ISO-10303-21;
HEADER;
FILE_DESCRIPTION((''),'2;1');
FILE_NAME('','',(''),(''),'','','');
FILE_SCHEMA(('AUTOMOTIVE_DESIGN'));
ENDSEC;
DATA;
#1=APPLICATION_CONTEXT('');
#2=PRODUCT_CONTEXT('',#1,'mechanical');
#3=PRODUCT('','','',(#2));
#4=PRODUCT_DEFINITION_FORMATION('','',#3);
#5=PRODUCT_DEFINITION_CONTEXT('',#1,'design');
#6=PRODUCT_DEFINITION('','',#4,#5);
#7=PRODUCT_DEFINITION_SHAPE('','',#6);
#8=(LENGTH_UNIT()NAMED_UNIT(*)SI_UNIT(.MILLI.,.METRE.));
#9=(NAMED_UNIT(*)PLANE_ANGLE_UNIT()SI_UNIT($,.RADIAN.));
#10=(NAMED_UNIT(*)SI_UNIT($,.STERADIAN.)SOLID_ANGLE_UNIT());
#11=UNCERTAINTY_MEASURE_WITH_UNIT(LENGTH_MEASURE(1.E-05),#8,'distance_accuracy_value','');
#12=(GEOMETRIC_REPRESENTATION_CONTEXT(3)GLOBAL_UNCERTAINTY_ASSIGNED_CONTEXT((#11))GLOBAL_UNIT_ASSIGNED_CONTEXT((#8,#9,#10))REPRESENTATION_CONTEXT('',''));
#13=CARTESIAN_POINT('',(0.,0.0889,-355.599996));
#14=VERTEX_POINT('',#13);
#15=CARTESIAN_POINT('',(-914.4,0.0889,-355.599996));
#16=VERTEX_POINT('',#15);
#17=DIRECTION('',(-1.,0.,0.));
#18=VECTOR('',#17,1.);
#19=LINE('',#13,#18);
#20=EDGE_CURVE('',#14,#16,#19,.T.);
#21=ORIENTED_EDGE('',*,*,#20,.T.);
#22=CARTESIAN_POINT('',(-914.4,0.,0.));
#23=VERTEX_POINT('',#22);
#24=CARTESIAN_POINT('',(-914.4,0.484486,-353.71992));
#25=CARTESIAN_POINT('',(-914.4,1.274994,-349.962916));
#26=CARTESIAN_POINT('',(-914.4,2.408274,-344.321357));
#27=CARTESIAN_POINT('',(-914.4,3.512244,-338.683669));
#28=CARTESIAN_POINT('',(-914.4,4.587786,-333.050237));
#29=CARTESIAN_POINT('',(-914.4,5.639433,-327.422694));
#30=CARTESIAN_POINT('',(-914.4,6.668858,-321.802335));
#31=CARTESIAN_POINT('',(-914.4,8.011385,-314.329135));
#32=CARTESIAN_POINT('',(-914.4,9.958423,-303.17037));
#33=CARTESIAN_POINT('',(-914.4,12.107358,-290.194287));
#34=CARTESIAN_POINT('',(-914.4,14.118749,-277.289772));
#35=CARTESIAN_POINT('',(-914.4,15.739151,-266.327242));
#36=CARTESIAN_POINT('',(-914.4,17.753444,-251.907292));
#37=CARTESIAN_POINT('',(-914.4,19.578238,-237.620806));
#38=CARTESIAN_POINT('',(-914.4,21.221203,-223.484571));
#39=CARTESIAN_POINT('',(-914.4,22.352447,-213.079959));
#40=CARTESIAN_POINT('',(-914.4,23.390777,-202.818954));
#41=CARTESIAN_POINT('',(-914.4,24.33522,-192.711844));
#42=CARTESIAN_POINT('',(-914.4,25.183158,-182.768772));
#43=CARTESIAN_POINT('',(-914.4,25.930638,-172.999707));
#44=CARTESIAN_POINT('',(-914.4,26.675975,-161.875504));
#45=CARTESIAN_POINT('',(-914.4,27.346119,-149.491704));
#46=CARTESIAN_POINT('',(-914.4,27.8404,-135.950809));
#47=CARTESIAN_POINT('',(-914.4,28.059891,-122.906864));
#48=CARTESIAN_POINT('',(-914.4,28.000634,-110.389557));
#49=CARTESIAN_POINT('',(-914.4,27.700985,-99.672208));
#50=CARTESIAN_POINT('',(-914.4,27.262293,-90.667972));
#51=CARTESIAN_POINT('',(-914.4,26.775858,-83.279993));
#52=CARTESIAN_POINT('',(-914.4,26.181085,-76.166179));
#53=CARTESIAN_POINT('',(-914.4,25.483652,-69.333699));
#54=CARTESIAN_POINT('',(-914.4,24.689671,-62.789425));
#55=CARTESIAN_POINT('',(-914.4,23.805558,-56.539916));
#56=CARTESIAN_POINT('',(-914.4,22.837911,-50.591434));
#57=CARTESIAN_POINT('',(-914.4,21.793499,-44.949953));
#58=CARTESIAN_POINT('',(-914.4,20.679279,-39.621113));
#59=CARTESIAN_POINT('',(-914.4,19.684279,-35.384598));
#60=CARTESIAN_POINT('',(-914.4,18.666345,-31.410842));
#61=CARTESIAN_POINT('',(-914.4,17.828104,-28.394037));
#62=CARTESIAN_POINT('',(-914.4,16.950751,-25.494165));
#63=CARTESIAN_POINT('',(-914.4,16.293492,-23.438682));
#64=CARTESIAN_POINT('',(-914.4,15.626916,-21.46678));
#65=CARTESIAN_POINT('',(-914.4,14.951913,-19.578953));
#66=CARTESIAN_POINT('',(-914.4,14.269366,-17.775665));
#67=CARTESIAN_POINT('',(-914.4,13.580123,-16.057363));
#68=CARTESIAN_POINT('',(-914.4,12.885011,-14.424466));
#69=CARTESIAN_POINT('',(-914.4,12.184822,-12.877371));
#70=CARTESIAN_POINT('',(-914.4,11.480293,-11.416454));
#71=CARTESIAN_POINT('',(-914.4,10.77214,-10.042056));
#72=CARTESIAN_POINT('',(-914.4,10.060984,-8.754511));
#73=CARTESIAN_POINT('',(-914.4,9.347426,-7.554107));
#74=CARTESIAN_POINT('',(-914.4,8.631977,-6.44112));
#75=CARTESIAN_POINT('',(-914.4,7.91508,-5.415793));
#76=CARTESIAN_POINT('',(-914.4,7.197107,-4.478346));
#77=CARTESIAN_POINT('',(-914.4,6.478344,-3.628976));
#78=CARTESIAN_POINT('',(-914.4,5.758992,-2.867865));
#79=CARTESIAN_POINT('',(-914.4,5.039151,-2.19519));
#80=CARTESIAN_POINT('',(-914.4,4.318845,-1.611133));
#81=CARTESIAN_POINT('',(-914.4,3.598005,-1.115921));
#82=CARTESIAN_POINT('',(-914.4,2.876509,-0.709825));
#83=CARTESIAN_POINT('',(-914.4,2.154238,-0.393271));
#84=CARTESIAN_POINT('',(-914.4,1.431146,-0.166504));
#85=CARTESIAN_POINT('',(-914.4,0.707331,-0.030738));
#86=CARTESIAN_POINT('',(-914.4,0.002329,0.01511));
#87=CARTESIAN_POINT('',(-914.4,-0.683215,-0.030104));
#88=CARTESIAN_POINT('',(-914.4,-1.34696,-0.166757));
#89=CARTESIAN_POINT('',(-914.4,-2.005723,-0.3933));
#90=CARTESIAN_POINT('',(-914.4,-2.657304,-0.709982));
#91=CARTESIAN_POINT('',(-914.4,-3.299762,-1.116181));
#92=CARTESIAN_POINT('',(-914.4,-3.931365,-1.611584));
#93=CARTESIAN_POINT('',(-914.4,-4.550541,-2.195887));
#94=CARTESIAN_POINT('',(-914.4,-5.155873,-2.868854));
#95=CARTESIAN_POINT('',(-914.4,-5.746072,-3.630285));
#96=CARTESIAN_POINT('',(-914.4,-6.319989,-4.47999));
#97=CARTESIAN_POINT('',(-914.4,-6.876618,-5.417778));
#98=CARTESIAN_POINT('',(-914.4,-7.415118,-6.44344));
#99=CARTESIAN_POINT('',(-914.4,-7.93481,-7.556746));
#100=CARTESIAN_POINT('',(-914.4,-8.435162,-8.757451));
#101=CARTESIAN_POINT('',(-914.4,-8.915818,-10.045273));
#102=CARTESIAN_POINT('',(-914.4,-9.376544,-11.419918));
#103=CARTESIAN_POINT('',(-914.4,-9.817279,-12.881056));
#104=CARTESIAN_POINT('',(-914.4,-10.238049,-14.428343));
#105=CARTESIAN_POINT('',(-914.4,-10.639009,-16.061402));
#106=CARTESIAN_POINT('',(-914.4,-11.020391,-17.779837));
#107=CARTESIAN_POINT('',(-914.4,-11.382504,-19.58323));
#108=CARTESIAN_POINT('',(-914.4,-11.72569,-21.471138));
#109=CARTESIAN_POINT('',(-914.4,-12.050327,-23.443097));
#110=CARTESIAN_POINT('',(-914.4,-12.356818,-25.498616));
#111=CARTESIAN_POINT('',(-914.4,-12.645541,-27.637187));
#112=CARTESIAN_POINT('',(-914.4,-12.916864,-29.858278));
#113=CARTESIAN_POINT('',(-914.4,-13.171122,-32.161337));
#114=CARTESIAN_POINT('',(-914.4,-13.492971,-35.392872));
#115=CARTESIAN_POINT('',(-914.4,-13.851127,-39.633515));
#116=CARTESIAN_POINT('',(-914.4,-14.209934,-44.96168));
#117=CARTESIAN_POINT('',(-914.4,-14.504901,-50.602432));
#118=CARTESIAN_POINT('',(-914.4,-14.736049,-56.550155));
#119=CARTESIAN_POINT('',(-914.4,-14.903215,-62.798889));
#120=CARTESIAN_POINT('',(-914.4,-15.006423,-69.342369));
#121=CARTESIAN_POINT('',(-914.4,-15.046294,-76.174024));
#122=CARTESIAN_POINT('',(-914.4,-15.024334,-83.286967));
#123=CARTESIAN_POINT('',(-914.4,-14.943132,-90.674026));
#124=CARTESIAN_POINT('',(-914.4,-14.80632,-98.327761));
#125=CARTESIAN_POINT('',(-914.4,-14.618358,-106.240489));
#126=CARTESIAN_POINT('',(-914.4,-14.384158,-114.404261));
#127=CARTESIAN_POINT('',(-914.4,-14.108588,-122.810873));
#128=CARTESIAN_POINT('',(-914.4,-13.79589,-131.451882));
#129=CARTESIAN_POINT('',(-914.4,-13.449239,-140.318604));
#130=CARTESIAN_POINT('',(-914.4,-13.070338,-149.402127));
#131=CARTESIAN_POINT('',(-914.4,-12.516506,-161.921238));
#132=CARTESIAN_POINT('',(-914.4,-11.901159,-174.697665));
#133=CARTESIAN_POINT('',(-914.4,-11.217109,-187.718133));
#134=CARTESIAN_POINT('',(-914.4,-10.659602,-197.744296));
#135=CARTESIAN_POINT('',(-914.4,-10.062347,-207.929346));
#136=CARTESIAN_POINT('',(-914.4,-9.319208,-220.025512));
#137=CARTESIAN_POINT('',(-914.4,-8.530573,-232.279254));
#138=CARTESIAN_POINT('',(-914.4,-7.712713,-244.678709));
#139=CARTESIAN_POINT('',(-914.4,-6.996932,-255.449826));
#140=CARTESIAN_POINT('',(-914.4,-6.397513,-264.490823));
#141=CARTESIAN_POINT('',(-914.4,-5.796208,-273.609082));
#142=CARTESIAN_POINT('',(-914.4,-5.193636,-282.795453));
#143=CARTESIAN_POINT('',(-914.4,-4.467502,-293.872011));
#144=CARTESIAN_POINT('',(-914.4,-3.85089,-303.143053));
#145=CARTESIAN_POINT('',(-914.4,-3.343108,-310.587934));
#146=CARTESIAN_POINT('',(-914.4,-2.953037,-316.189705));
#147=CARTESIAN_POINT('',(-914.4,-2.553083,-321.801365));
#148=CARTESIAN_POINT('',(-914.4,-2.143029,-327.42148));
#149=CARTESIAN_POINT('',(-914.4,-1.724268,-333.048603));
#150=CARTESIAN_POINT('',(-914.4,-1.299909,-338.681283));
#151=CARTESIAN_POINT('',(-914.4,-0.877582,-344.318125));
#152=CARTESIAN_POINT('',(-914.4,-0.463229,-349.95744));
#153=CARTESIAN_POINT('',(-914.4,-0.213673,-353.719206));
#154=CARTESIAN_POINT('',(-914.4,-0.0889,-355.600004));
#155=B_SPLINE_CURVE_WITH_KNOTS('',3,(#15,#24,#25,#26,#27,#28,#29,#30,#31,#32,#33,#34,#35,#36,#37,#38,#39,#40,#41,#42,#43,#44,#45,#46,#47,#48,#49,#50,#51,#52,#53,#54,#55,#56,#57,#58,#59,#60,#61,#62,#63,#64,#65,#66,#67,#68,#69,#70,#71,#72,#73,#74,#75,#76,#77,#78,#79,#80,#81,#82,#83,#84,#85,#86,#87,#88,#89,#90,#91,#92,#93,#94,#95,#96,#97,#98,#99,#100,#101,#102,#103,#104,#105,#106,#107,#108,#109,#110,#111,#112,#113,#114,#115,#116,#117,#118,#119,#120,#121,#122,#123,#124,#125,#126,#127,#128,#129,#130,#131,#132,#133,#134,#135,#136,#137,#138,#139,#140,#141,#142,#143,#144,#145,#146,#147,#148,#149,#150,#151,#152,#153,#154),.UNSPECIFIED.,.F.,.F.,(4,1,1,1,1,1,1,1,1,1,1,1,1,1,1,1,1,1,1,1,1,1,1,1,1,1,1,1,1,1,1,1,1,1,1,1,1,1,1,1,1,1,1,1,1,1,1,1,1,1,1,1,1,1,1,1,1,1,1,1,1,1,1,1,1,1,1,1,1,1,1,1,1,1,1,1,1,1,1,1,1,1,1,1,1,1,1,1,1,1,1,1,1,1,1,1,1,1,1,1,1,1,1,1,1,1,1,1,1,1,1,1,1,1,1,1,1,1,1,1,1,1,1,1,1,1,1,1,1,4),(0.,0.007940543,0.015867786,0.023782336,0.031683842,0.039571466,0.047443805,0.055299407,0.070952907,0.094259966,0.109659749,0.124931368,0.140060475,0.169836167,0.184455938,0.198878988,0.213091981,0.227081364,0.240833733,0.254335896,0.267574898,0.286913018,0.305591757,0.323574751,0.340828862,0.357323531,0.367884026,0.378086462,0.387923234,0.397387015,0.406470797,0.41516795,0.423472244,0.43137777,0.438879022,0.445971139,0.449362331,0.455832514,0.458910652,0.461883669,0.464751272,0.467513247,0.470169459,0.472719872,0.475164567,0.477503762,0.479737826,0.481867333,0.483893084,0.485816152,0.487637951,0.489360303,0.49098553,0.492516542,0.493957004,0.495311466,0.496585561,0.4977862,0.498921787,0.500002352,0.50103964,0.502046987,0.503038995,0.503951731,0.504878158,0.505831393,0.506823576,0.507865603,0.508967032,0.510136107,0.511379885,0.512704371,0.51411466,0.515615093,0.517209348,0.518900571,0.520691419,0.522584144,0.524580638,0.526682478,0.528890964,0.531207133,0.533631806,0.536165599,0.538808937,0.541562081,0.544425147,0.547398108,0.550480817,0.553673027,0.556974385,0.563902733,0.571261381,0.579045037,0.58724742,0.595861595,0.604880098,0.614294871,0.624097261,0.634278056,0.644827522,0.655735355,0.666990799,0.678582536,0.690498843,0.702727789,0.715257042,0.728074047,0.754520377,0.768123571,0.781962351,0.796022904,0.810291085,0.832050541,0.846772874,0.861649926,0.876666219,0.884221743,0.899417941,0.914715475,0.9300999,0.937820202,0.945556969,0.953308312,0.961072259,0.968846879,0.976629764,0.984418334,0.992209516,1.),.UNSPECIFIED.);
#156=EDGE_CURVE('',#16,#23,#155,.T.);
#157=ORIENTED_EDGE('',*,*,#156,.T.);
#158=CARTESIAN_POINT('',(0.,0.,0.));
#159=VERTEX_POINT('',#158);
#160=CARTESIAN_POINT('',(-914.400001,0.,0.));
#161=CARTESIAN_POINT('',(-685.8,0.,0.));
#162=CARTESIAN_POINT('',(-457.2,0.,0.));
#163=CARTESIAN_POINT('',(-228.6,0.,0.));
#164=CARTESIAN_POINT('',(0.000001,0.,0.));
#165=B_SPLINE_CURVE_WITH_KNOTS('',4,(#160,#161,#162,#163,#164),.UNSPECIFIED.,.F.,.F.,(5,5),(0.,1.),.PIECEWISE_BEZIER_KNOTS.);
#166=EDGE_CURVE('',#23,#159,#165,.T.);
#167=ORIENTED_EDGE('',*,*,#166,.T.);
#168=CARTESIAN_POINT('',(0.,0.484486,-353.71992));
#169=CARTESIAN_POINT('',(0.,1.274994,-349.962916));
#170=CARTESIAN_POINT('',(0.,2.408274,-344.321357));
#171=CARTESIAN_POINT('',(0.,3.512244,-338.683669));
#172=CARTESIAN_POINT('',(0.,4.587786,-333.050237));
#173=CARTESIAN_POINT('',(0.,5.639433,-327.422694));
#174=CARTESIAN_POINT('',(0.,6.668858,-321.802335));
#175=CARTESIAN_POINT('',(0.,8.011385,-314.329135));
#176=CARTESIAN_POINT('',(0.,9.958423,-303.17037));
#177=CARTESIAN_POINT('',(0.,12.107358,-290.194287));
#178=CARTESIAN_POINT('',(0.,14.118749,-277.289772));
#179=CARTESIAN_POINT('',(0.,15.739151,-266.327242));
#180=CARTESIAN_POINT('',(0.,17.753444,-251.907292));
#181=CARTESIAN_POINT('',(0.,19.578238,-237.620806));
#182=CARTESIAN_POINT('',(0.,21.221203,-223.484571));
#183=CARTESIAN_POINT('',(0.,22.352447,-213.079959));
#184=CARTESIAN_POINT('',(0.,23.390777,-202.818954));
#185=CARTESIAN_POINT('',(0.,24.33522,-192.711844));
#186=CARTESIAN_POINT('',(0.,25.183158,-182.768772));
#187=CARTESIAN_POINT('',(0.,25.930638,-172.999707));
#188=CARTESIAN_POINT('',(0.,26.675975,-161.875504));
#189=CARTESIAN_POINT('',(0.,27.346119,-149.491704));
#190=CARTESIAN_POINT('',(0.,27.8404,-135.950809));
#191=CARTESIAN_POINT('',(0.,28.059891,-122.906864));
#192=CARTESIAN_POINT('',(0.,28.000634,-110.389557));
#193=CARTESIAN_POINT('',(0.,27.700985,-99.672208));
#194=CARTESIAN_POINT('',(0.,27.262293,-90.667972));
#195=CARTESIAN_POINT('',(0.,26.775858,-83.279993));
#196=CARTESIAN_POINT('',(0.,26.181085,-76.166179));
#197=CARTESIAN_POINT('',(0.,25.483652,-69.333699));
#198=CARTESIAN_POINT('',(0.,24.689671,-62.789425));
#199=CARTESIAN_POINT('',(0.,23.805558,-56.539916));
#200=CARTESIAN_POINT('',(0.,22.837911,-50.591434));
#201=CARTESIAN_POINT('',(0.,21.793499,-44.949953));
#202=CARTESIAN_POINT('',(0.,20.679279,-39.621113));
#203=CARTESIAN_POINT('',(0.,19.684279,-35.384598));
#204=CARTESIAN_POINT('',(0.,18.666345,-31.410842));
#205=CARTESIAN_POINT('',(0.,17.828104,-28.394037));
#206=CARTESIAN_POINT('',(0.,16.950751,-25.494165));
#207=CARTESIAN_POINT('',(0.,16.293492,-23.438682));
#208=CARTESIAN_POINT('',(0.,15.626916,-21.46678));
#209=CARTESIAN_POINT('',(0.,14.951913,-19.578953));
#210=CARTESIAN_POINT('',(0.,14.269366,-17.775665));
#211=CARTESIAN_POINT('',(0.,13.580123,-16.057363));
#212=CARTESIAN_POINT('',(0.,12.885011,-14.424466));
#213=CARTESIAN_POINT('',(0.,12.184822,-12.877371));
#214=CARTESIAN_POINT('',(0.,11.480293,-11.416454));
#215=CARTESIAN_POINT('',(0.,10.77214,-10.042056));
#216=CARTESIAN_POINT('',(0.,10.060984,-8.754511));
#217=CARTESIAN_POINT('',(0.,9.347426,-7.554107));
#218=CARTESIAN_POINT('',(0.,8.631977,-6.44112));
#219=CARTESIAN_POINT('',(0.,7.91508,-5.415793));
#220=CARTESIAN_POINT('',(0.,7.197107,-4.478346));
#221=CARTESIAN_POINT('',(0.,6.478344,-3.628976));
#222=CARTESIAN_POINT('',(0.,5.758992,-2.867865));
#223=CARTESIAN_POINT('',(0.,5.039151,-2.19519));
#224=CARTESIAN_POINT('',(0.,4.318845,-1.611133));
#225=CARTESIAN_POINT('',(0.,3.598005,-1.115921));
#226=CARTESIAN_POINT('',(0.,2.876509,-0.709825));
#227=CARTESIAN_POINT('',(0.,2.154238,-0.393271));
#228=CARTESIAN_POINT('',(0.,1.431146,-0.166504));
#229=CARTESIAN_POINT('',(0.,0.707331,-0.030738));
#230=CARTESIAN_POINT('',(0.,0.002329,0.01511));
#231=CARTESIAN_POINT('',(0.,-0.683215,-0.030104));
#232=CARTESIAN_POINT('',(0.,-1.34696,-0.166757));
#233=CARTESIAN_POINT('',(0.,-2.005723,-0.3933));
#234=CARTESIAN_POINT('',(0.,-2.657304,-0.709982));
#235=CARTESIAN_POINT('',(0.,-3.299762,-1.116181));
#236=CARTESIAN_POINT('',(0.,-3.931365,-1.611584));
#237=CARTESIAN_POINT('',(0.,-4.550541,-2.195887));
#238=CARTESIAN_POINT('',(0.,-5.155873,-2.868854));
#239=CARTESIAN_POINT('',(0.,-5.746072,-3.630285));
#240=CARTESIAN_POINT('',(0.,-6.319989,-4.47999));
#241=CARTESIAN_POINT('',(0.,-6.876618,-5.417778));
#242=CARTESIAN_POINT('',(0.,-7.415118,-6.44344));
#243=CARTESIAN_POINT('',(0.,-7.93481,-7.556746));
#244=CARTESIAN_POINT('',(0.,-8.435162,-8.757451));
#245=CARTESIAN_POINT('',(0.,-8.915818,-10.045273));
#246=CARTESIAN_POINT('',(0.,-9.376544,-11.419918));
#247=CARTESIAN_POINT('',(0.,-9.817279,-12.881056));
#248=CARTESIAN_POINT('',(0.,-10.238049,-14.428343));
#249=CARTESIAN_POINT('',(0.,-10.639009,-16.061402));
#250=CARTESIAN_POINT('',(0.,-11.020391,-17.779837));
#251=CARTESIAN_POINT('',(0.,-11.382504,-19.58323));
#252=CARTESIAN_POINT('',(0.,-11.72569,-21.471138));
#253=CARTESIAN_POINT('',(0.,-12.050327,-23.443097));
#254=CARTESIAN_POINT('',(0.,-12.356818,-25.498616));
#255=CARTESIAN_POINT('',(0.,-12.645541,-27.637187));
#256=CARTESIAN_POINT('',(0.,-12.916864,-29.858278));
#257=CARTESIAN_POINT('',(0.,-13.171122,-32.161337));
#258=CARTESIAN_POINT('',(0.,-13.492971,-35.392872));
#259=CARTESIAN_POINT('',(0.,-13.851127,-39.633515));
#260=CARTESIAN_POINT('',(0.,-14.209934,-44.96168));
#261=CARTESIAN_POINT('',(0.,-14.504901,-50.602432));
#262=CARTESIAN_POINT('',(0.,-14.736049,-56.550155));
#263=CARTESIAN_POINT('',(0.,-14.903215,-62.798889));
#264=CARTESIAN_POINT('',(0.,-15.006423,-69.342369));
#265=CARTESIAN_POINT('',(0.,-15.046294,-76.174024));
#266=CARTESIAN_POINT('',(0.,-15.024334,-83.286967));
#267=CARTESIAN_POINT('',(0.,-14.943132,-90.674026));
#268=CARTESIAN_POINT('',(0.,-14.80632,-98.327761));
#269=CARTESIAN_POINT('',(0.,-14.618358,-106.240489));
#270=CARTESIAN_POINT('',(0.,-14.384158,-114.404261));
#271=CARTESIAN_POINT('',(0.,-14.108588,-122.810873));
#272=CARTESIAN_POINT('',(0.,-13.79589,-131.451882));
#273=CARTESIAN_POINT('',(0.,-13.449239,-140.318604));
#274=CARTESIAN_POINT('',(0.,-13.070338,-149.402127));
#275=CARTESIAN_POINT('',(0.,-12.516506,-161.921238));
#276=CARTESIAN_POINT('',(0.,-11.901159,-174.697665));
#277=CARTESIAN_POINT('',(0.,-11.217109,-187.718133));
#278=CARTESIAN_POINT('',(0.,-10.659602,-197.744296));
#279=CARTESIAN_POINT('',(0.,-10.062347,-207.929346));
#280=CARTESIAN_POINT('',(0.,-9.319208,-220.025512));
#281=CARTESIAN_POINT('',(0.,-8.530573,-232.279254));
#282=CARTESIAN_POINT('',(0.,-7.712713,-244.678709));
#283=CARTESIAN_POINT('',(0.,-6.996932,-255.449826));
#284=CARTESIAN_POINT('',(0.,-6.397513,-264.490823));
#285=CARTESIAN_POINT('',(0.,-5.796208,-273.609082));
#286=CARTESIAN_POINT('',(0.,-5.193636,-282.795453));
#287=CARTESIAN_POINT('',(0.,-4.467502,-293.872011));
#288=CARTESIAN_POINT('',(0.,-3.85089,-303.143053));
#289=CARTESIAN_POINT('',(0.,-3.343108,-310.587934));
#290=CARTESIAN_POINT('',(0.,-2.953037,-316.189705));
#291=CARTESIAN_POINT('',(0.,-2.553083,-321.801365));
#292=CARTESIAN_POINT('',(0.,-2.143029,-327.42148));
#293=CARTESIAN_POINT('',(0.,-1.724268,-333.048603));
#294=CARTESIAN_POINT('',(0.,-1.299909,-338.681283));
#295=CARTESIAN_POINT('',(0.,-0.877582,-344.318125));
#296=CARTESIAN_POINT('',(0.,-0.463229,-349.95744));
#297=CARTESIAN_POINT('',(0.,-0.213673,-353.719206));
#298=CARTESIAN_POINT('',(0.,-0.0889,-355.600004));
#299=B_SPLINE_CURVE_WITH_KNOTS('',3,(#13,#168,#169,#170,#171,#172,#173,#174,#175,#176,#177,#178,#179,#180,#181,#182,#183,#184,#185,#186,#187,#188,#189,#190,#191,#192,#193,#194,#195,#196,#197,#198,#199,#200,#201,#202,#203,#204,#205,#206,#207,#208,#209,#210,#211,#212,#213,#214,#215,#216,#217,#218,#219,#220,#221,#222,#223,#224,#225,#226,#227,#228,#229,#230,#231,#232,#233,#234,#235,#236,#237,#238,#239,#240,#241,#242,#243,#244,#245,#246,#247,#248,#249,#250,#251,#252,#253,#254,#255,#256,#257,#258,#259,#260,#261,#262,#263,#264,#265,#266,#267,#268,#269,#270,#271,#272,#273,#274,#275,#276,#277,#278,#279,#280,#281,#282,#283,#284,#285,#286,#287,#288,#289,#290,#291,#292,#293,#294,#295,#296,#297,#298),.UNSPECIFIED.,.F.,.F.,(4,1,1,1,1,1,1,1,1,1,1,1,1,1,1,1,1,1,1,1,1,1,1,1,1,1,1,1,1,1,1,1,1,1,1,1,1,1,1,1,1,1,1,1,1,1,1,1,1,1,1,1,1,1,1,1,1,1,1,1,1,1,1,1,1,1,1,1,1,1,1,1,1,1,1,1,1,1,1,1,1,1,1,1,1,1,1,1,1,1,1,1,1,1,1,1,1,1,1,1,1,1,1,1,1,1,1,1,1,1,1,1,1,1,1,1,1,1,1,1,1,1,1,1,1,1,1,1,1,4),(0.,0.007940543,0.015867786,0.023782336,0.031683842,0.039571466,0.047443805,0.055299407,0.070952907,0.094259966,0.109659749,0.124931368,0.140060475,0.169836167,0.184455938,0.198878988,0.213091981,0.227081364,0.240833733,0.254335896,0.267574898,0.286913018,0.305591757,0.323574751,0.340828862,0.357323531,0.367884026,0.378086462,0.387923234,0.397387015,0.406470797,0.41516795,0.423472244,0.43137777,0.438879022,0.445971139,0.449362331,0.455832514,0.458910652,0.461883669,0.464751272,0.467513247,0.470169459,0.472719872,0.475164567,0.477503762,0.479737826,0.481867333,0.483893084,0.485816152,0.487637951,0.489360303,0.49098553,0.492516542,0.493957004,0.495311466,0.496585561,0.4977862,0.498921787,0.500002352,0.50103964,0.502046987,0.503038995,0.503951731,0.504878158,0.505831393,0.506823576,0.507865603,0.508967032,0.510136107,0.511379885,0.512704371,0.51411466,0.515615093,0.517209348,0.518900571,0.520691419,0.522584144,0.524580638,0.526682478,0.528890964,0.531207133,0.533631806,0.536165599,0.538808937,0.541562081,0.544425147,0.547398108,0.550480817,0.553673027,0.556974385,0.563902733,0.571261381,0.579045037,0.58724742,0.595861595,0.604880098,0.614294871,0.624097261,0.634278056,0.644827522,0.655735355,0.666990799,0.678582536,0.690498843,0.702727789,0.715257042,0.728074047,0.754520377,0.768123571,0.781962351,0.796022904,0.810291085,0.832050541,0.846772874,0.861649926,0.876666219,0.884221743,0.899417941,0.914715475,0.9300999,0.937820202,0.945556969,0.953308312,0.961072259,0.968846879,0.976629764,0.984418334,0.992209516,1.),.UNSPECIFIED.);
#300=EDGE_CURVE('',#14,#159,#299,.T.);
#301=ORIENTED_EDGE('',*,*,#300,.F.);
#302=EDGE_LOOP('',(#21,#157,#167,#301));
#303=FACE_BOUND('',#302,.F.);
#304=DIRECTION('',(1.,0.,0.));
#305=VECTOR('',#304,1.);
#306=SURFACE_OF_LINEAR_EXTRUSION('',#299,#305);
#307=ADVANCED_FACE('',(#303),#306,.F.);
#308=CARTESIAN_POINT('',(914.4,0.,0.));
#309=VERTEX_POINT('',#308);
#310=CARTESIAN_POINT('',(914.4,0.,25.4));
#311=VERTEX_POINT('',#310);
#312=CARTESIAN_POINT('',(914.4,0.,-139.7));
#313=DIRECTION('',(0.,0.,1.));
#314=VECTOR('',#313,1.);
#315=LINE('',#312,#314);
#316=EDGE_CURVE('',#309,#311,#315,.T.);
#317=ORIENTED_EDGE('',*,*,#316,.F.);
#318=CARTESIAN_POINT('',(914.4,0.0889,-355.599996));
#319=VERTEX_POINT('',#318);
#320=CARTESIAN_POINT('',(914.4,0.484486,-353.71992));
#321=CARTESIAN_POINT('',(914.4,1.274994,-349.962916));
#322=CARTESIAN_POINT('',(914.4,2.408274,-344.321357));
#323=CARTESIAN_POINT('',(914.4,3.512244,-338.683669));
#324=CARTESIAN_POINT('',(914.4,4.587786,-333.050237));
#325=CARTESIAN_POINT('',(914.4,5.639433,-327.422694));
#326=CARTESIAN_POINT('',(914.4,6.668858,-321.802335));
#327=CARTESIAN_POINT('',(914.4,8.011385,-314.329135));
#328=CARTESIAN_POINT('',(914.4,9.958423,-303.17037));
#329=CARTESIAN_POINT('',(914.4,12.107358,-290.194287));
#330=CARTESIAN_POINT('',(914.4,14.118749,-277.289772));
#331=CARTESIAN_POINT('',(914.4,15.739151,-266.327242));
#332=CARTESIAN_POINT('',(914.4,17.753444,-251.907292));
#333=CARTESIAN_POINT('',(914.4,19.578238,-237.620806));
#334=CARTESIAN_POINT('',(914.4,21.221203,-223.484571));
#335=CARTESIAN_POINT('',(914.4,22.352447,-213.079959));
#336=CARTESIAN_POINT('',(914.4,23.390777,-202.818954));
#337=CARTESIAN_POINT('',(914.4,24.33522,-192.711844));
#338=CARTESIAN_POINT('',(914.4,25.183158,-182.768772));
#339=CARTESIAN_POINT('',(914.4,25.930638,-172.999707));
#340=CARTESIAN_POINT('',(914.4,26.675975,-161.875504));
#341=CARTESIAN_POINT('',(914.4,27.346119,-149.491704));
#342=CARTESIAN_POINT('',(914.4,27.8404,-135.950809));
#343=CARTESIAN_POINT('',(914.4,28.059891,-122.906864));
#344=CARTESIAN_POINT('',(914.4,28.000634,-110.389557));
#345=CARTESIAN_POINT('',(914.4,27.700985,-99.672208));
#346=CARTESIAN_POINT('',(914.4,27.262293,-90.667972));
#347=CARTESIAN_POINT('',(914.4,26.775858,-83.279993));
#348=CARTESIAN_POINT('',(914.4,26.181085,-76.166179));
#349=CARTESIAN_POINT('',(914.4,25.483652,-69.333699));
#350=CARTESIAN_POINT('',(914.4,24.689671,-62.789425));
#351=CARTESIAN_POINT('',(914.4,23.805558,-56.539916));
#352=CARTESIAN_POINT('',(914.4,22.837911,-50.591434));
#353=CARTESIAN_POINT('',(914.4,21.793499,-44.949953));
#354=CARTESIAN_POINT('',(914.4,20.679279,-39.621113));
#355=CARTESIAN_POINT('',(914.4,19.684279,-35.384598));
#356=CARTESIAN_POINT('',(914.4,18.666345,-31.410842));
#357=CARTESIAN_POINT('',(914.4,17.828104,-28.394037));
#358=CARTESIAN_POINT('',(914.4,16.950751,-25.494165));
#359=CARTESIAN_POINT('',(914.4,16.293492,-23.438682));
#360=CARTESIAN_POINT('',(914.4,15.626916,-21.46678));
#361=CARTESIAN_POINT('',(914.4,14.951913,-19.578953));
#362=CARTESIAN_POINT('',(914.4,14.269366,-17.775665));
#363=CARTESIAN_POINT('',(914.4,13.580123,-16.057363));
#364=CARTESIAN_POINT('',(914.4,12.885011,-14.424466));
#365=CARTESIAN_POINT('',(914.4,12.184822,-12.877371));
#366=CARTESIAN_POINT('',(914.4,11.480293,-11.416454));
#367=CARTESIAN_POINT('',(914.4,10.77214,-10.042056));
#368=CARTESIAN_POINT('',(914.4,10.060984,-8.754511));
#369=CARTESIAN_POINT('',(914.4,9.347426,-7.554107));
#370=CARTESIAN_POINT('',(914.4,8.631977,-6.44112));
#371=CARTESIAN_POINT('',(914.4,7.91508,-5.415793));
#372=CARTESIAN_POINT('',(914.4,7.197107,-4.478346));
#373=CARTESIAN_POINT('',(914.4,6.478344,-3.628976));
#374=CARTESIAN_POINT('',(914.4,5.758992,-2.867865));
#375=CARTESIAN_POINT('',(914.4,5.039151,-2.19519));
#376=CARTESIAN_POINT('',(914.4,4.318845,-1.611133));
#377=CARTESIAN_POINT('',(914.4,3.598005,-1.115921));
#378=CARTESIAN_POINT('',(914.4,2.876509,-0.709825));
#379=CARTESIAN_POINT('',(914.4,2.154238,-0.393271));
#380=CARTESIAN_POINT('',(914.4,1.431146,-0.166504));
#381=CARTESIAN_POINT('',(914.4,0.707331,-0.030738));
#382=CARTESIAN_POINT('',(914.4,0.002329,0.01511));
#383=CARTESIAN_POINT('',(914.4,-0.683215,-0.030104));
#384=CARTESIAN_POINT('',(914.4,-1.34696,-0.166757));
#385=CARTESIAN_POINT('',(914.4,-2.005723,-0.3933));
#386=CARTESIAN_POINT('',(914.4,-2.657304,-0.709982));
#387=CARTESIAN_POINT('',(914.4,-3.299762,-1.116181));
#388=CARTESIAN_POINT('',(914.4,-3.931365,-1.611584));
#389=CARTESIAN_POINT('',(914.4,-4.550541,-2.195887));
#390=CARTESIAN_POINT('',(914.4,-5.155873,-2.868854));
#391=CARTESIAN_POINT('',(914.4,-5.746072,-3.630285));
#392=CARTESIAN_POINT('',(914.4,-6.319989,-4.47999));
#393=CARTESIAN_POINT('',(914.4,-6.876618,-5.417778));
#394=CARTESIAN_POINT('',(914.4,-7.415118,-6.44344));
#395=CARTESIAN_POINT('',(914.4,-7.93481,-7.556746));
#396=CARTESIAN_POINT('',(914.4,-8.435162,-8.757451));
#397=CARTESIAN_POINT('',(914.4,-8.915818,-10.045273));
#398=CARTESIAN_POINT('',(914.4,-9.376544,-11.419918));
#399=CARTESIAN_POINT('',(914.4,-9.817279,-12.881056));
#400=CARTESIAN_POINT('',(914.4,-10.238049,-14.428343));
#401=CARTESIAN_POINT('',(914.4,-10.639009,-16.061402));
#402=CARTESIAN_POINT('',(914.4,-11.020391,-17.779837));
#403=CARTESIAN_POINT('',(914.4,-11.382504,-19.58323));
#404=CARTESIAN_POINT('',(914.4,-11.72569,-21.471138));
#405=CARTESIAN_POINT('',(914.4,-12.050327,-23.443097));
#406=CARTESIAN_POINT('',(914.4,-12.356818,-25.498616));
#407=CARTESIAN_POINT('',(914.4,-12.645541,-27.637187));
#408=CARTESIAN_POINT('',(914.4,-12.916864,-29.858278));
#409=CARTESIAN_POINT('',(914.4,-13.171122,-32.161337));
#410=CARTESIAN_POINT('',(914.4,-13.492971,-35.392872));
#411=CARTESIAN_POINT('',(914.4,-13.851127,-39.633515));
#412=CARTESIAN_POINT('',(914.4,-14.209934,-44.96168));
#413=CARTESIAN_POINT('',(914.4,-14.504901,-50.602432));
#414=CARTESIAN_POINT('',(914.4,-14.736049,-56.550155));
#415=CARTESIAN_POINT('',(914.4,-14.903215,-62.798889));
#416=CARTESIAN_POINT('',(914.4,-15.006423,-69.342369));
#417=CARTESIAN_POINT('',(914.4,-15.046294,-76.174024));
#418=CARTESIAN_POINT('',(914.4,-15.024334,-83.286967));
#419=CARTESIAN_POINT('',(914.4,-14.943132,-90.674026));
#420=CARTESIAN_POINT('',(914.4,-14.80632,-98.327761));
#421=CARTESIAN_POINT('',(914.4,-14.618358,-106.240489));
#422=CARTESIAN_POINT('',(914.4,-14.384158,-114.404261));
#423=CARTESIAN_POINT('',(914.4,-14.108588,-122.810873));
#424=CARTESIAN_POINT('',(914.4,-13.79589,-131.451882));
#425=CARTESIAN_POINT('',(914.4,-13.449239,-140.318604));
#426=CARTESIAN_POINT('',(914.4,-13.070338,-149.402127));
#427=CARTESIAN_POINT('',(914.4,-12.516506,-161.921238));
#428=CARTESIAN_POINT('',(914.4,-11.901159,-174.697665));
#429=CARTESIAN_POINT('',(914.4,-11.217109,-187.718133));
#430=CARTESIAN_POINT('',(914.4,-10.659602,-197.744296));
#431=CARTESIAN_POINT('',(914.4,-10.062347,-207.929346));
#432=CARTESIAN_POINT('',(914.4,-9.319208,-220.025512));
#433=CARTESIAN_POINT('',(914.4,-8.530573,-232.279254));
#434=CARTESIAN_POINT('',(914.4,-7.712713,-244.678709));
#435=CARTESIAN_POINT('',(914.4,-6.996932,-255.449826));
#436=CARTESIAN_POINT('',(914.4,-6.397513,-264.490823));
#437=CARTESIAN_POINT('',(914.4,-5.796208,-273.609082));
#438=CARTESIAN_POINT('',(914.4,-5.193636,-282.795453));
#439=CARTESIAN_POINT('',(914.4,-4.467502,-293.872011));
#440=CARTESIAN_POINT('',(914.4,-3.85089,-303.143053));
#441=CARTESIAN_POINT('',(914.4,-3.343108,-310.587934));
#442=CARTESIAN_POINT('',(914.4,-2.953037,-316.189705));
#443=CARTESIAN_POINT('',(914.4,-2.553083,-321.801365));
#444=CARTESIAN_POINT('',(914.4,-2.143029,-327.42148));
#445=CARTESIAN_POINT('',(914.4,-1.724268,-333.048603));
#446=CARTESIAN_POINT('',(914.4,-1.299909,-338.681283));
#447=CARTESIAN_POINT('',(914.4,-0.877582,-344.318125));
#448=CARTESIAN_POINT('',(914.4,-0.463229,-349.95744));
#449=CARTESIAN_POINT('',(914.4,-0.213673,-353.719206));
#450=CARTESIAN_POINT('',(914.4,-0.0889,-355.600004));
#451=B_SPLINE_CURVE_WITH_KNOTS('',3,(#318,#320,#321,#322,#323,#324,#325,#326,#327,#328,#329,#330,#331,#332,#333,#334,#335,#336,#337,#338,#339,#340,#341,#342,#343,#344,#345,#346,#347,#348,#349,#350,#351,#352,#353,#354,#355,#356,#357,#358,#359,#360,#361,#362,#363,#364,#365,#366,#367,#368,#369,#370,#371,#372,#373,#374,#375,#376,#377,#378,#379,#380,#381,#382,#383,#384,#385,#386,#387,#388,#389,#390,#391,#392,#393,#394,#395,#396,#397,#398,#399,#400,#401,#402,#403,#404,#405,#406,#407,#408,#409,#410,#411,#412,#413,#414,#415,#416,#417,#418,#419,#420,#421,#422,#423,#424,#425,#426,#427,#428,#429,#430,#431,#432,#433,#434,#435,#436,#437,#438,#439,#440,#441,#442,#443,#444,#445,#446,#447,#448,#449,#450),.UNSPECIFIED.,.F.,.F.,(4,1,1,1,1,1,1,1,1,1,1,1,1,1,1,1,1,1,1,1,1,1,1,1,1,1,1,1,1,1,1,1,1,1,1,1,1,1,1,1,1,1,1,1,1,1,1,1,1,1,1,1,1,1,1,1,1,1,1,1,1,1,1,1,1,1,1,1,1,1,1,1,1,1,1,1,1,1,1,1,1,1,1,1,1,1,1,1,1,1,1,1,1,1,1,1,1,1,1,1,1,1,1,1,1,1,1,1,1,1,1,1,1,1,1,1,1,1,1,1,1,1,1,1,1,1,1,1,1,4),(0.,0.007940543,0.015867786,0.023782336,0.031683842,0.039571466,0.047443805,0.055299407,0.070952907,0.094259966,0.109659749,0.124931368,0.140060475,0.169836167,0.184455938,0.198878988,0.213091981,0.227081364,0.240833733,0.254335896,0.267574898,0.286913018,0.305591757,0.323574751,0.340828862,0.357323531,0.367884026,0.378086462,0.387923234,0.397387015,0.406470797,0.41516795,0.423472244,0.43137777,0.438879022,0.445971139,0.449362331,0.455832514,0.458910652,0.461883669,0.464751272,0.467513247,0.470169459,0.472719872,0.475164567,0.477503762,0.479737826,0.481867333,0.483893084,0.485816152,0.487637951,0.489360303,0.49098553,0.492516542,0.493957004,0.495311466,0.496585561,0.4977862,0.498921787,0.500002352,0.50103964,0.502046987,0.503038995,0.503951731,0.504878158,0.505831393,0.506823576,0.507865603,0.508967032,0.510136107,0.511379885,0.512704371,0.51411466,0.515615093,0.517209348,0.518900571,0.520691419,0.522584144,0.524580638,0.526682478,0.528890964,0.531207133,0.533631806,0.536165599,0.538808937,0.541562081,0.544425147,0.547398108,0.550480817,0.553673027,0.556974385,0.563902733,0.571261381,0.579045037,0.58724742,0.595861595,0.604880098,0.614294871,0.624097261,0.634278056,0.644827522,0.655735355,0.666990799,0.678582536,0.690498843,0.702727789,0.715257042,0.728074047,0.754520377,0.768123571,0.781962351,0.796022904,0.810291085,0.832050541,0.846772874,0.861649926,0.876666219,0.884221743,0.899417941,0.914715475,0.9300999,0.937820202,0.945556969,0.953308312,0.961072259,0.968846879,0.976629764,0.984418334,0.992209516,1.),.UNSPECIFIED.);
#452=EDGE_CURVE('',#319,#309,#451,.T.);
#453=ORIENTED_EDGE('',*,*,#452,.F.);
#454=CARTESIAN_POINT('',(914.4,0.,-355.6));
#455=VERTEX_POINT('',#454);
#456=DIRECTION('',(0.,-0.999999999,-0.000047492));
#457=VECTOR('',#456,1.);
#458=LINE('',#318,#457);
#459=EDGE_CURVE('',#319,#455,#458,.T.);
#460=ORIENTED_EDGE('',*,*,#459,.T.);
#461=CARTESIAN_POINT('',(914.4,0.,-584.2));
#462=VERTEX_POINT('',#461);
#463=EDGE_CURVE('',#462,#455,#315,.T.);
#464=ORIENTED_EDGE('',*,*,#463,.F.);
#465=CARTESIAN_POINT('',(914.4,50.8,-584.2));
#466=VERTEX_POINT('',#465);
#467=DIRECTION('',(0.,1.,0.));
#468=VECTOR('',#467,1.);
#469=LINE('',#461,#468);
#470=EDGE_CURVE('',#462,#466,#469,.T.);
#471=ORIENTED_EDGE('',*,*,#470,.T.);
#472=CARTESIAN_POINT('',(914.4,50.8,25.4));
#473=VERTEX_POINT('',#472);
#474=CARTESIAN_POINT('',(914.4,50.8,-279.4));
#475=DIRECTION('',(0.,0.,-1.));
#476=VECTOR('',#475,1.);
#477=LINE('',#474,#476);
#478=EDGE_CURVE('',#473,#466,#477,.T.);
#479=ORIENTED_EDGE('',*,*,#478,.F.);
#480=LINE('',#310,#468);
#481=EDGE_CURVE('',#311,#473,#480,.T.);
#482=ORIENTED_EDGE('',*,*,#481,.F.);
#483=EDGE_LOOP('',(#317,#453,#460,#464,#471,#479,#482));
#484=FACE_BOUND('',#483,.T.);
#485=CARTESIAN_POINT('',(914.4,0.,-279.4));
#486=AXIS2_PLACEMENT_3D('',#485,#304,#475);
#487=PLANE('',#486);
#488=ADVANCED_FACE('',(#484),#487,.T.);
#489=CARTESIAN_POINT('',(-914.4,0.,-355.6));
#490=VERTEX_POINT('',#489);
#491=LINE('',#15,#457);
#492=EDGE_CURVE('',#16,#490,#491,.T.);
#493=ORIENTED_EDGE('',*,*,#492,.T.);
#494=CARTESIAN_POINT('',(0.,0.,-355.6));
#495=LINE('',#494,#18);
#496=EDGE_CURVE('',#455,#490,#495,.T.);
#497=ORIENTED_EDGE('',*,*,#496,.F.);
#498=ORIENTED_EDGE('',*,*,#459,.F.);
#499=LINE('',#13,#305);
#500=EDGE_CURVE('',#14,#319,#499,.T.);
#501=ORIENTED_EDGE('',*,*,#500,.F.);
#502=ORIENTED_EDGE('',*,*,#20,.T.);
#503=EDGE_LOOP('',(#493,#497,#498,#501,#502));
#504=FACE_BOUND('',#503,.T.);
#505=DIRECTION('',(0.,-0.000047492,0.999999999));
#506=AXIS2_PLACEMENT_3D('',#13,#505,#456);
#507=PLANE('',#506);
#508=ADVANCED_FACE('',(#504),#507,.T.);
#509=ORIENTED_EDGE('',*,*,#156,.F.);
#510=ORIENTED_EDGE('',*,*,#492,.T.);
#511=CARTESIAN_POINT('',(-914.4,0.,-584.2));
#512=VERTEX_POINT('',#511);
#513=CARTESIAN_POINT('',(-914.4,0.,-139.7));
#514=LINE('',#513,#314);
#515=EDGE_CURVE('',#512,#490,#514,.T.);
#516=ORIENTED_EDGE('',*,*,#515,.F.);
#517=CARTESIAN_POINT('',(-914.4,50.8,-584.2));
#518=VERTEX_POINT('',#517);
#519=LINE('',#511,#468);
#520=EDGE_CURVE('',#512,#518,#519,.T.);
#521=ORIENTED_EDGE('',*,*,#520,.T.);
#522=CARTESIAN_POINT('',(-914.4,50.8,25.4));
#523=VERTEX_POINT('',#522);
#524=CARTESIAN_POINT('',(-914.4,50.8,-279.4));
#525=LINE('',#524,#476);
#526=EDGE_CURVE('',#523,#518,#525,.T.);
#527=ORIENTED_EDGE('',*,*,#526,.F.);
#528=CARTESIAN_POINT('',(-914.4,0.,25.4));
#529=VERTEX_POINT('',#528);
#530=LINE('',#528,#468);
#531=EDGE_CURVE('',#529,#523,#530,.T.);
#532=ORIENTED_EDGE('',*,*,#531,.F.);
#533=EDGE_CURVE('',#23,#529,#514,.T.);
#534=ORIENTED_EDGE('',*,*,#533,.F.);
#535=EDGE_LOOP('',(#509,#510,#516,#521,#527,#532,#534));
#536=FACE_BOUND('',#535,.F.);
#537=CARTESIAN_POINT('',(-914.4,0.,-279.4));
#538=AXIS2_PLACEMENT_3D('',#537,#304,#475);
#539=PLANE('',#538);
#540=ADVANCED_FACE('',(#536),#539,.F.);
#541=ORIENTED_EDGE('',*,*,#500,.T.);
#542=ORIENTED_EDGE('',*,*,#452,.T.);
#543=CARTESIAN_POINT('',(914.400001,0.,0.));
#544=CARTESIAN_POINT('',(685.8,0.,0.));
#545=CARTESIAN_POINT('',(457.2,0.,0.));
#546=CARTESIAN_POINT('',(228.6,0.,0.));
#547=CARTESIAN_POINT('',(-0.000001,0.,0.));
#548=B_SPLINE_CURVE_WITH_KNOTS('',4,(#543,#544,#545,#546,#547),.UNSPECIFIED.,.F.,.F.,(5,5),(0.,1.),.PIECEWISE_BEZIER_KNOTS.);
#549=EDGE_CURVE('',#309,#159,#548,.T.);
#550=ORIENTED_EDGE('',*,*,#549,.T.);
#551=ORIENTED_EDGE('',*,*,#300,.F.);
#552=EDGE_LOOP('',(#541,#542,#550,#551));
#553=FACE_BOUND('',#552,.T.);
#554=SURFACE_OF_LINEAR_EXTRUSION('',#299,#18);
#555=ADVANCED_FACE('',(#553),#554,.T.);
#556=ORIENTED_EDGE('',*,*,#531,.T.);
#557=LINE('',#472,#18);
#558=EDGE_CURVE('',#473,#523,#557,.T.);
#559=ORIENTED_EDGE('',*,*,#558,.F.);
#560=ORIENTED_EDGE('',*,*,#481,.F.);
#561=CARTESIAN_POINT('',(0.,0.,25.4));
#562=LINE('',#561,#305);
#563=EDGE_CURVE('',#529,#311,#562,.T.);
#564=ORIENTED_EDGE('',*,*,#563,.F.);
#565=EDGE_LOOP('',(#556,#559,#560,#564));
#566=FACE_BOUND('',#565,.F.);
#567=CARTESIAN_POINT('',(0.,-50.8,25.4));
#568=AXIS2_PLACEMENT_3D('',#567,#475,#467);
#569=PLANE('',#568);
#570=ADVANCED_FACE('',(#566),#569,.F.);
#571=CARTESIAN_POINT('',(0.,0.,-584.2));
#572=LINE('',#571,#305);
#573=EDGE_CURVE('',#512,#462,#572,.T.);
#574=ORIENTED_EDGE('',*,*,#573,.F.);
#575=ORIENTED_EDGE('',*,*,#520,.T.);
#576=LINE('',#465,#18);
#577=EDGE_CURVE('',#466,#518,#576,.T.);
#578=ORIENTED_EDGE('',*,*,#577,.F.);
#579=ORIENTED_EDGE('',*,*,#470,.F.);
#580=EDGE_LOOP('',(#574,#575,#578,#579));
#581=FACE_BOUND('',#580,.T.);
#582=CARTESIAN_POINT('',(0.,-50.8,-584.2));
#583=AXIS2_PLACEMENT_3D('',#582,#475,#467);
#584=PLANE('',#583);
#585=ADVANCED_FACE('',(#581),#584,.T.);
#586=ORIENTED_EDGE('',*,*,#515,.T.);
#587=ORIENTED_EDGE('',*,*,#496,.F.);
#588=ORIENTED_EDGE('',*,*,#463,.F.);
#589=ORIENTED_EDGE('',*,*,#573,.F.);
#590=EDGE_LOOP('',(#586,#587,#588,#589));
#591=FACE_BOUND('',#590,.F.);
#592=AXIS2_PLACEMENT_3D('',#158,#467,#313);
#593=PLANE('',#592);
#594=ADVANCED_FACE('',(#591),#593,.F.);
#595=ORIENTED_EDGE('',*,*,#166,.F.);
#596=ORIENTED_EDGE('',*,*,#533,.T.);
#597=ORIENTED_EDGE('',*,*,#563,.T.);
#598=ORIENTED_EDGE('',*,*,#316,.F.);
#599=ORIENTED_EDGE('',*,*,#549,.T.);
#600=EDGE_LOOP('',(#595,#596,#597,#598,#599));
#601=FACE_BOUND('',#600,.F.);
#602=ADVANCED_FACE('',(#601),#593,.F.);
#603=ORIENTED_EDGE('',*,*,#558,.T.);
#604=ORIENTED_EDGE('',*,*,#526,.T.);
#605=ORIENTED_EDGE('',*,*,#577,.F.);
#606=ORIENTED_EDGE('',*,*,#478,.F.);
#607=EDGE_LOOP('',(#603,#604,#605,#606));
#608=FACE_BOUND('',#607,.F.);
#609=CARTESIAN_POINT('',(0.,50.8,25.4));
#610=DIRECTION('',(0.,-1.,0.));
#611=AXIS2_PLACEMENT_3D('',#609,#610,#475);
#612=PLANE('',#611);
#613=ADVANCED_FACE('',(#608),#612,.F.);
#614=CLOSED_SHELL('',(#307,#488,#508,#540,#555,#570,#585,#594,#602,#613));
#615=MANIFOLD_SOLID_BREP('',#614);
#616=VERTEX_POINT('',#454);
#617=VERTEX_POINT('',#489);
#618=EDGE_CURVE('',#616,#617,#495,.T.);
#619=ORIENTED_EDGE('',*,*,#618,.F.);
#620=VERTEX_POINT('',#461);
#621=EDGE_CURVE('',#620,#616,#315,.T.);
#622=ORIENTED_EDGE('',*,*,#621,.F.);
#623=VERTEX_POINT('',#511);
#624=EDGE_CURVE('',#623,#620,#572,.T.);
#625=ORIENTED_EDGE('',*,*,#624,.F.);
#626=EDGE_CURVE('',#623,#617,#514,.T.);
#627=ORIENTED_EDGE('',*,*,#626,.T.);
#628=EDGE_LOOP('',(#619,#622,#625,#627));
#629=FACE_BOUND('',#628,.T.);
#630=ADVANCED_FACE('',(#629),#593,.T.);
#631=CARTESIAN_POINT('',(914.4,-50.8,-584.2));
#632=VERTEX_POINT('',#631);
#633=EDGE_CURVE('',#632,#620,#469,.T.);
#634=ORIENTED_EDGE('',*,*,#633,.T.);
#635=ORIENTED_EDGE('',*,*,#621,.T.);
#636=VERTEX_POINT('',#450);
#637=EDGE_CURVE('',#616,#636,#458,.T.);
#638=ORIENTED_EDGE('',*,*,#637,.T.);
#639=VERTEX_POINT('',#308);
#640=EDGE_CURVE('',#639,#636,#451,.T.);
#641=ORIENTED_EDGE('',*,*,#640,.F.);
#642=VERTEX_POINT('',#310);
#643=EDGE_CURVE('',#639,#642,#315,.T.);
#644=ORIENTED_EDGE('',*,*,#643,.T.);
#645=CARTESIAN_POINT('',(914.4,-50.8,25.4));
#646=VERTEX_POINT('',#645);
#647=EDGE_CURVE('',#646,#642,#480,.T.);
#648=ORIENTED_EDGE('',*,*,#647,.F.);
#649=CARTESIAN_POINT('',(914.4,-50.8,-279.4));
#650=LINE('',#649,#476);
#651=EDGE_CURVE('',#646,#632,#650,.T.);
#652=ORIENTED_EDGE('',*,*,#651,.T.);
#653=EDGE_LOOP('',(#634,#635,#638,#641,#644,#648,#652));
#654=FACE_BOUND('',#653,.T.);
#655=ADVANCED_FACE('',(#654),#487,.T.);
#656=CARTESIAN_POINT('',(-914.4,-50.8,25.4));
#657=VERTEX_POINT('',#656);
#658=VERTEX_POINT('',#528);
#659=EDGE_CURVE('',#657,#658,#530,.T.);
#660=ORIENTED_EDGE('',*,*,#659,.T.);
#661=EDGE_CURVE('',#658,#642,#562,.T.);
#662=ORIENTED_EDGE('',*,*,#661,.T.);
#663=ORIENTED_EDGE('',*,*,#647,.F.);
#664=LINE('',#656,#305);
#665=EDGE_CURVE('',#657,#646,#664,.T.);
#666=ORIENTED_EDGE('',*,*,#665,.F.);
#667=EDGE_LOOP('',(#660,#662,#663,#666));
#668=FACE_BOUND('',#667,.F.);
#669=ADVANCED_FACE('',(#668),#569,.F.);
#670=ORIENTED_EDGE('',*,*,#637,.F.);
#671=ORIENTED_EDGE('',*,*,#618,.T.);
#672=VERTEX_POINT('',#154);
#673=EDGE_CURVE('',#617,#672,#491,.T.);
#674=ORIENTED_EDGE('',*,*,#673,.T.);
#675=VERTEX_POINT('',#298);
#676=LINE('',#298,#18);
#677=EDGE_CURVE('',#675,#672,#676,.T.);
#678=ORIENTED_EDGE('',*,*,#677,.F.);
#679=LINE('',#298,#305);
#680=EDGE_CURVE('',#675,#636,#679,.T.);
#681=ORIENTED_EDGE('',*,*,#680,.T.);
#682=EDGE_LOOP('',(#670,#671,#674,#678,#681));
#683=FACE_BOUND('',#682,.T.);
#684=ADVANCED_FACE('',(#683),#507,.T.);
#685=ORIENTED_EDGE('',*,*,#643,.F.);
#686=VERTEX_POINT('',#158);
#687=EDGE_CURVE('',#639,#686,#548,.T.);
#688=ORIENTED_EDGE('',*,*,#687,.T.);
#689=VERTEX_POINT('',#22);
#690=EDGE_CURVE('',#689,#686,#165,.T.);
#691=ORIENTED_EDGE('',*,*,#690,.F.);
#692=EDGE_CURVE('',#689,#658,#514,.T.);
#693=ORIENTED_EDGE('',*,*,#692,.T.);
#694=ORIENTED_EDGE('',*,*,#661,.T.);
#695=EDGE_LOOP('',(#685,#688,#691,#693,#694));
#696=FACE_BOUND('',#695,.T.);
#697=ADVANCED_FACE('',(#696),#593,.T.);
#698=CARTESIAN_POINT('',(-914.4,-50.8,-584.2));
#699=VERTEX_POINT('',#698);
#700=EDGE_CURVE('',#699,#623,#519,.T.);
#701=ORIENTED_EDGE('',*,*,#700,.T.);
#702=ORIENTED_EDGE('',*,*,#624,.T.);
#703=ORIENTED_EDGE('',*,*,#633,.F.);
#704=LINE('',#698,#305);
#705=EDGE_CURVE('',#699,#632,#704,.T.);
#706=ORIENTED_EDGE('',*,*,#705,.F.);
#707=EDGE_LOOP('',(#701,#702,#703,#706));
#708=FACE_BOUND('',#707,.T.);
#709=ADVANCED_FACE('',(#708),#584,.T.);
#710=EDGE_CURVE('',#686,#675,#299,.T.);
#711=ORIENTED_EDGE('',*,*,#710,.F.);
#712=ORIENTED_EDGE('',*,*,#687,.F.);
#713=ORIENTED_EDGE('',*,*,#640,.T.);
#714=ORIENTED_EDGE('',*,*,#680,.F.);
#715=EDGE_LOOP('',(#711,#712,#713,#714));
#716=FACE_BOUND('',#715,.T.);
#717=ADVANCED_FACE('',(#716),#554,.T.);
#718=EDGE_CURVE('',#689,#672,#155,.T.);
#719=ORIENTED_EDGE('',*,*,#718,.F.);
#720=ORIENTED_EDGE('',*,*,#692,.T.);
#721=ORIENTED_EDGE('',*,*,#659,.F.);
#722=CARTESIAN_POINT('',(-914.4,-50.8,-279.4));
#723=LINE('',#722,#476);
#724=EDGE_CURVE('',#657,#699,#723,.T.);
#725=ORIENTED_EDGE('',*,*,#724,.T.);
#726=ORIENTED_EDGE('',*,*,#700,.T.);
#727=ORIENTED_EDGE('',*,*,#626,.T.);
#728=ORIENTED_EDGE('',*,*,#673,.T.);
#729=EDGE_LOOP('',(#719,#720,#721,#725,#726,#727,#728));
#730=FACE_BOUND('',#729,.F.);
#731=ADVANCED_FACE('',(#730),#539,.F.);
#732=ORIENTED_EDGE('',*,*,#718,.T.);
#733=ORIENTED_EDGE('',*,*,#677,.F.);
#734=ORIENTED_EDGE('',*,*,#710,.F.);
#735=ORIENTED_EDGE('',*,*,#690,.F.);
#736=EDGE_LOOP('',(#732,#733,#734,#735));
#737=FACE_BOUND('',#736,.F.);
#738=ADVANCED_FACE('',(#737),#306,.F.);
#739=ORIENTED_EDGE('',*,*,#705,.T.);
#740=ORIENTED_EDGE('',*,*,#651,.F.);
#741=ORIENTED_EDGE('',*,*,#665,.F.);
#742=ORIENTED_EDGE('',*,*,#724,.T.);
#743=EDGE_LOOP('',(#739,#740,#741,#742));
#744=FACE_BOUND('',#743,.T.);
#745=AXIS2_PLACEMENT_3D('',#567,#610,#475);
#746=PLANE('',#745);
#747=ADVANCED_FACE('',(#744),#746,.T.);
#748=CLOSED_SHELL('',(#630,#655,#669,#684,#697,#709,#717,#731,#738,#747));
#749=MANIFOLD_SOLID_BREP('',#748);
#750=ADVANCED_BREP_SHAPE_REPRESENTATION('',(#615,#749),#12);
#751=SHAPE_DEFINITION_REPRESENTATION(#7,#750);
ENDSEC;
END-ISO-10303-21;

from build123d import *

# Parameters (mm, degrees)
SKETCH1_W           = 609.6
SKETCH1_H           = 101.6
BOSS_EXTRUDE1_DEPTH = 914.4


with BuildPart() as part:
    # Sketch1 → Boss-Extrude1 (new, symmetric)
    with BuildSketch(Plane(origin=(0, 0, 0), x_dir=(0, 0, -1), z_dir=(1, 0, 0))):
        with Locations((279.4, 0)):
            Rectangle(SKETCH1_W, SKETCH1_H)
        with BuildLine():
            Line((355.599995778, 0.088899993), (355.600004222, -0.088899993))
            add(Edge.make_bspline(
                [(355.599995778, 0.088899993), (353.719919628, 0.484485581), (349.962916086, 1.274994229), (344.321357204, 2.408274034), (338.683668583, 3.512244286), (333.050236726, 4.587785987), (327.422693692, 5.639432655), (321.802334741, 6.668857961), (314.329135268, 8.011385096), (303.170369871, 9.958422722), (290.194287361, 12.107358077), (277.289771757, 14.118748691), (266.32724231, 15.739151064), (251.90729176, 17.753444463), (237.620805882, 19.578238431), (223.484571155, 21.221203013), (213.079958676, 22.35244674), (202.818953541, 23.390777248), (192.711844061, 24.335220131), (182.768771906, 25.183158052), (172.999706974, 25.930638246), (161.8755037, 26.675974905), (149.491704209, 27.346118936), (135.950809215, 27.840399909), (122.906863741, 28.059891495), (110.38955742, 28.000634334), (99.672207938, 27.700985353), (90.667971982, 27.262292799), (83.279992978, 26.775857592), (76.166179431, 26.181085385), (69.333698868, 25.483651689), (62.78942488, 24.68967134), (56.539916188, 23.805557546), (50.591433903, 22.837910647), (44.949952532, 21.793499475), (39.621112912, 20.679278548), (35.38459791, 19.684279107), (31.410842402, 18.666344518), (28.39403653, 17.828103782), (25.494164793, 16.950750808), (23.438681715, 16.293491786), (21.46678011, 15.626915769), (19.578952701, 14.951912739), (17.775664606, 14.269365904), (16.057362792, 13.580122722), (14.424466236, 12.885010511), (12.877370576, 12.184822001), (11.41645423, 11.480293146), (10.042056179, 10.772140432), (8.754511409, 10.060984054), (7.554107415, 9.347425864), (6.441119863, 8.631976574), (5.415793041, 7.915079727), (4.478345909, 7.197107261), (3.628976492, 6.478343988), (2.867864561, 5.758991675), (2.195190165, 5.03915146), (1.611133495, 4.318845026), (1.115921313, 3.59800481), (0.709825307, 2.87650933), (0.393271271, 2.15423771), (0.166504254, 1.431146413), (0.030737644, 0.707331331), (-0.01510981, 0.002329326), (0.030103712, -0.683215048), (0.166757283, -1.346959587), (0.393300202, -2.005722915), (0.709982051, -2.657303726), (1.116181328, -3.299762384), (1.611583629, -3.931365111), (2.19588676, -4.550541061), (2.868853595, -5.155873444), (3.630284522, -5.746072074), (4.479990283, -6.319989017), (5.41777842, -6.876617983), (6.443440476, -7.415118179), (7.556746328, -7.934809954), (8.757450602, -8.435162267), (10.04527274, -8.915818462), (11.419918332, -9.376544391), (12.881056499, -9.817279011), (14.428342684, -10.238048563), (16.061401534, -10.639008832), (17.779837371, -11.020391175), (19.583230149, -11.382503507), (21.471138203, -11.72569046), (23.443096697, -12.050327435), (25.498615858, -12.356818022), (27.637186796, -12.645541454), (29.858278076, -12.916863624), (32.161337168, -13.17112178), (35.392871871, -13.492971246), (39.633515491, -13.851127367), (44.961680314, -14.209933523), (50.602431788, -14.504901453), (56.550155093, -14.736048774), (62.798888687, -14.903214972), (69.342369229, -15.006422563), (76.174024321, -15.046294155), (83.286967172, -15.024333631), (90.674025931, -14.943132189), (98.327760574, -14.806320398), (106.240488655, -14.618358339), (114.404261409, -14.384158225), (122.810873499, -14.108588395), (131.451881899, -13.795890053), (140.318604404, -13.449239271), (149.402126747, -13.070337509), (161.921237989, -12.516505896), (174.697664724, -11.901159381), (187.718132989, -11.217108995), (197.744296345, -10.659602088), (207.929345735, -10.062346652), (220.025511725, -9.319207642), (232.279253589, -8.53057328), (244.678709307, -7.712713438), (255.449825815, -6.996932102), (264.490823064, -6.397512526), (273.609082441, -5.796208069), (282.795452689, -5.193636154), (293.872010722, -4.467502283), (303.143053311, -3.850890022), (310.58793423, -3.34310816), (316.18970464, -2.95303736), (321.801365046, -2.553083045), (327.421479554, -2.143029396), (333.048603174, -1.724268081), (338.681282888, -1.299908993), (344.318125247, -0.877582287), (349.957440029, -0.463228733), (353.719205679, -0.213672512), (355.600004222, -0.088899993)],
                knots=[0, 0, 0, 0, 0.007940543, 0.015867786, 0.023782336, 0.031683842, 0.039571466, 0.047443805, 0.055299407, 0.070952907, 0.094259966, 0.109659749, 0.124931368, 0.140060475, 0.169836167, 0.184455938, 0.198878988, 0.213091981, 0.227081364, 0.240833733, 0.254335896, 0.267574898, 0.286913018, 0.305591757, 0.323574751, 0.340828862, 0.357323531, 0.367884026, 0.378086462, 0.387923234, 0.397387015, 0.406470797, 0.41516795, 0.423472244, 0.43137777, 0.438879022, 0.445971139, 0.449362331, 0.455832514, 0.458910652, 0.461883669, 0.464751272, 0.467513247, 0.470169459, 0.472719872, 0.475164567, 0.477503762, 0.479737826, 0.481867333, 0.483893084, 0.485816152, 0.487637951, 0.489360303, 0.49098553, 0.492516542, 0.493957004, 0.495311466, 0.496585561, 0.4977862, 0.498921787, 0.500002352, 0.50103964, 0.502046987, 0.503038995, 0.503951731, 0.504878158, 0.505831393, 0.506823576, 0.507865603, 0.508967032, 0.510136107, 0.511379885, 0.512704371, 0.51411466, 0.515615093, 0.517209348, 0.518900571, 0.520691419, 0.522584144, 0.524580638, 0.526682478, 0.528890964, 0.531207133, 0.533631806, 0.536165599, 0.538808937, 0.541562081, 0.544425147, 0.547398108, 0.550480817, 0.553673027, 0.556974385, 0.563902733, 0.571261381, 0.579045037, 0.58724742, 0.595861595, 0.604880098, 0.614294871, 0.624097261, 0.634278056, 0.644827522, 0.655735355, 0.666990799, 0.678582536, 0.690498843, 0.702727789, 0.715257042, 0.728074047, 0.754520377, 0.768123571, 0.781962351, 0.796022904, 0.810291085, 0.832050541, 0.846772874, 0.861649926, 0.876666219, 0.884221743, 0.899417941, 0.914715475, 0.9300999, 0.937820202, 0.945556969, 0.953308312, 0.961072259, 0.968846879, 0.976629764, 0.984418334, 0.992209516, 1, 1, 1, 1], degree=3))
        make_face(mode=Mode.SUBTRACT)
    extrude(amount=BOSS_EXTRUDE1_DEPTH, both=True)


with BuildPart() as body_2:
    # Split1: the piece on the far side of the plane
    add(part.part)
    split(bisect_by=Plane.ZX, keep=Keep.BOTTOM)


with BuildPart() as part_1:
    add(part.part)

    # Split1
    split(bisect_by=Plane.ZX, keep=Keep.TOP)


solid = Compound([body_2.part, part_1.part])
